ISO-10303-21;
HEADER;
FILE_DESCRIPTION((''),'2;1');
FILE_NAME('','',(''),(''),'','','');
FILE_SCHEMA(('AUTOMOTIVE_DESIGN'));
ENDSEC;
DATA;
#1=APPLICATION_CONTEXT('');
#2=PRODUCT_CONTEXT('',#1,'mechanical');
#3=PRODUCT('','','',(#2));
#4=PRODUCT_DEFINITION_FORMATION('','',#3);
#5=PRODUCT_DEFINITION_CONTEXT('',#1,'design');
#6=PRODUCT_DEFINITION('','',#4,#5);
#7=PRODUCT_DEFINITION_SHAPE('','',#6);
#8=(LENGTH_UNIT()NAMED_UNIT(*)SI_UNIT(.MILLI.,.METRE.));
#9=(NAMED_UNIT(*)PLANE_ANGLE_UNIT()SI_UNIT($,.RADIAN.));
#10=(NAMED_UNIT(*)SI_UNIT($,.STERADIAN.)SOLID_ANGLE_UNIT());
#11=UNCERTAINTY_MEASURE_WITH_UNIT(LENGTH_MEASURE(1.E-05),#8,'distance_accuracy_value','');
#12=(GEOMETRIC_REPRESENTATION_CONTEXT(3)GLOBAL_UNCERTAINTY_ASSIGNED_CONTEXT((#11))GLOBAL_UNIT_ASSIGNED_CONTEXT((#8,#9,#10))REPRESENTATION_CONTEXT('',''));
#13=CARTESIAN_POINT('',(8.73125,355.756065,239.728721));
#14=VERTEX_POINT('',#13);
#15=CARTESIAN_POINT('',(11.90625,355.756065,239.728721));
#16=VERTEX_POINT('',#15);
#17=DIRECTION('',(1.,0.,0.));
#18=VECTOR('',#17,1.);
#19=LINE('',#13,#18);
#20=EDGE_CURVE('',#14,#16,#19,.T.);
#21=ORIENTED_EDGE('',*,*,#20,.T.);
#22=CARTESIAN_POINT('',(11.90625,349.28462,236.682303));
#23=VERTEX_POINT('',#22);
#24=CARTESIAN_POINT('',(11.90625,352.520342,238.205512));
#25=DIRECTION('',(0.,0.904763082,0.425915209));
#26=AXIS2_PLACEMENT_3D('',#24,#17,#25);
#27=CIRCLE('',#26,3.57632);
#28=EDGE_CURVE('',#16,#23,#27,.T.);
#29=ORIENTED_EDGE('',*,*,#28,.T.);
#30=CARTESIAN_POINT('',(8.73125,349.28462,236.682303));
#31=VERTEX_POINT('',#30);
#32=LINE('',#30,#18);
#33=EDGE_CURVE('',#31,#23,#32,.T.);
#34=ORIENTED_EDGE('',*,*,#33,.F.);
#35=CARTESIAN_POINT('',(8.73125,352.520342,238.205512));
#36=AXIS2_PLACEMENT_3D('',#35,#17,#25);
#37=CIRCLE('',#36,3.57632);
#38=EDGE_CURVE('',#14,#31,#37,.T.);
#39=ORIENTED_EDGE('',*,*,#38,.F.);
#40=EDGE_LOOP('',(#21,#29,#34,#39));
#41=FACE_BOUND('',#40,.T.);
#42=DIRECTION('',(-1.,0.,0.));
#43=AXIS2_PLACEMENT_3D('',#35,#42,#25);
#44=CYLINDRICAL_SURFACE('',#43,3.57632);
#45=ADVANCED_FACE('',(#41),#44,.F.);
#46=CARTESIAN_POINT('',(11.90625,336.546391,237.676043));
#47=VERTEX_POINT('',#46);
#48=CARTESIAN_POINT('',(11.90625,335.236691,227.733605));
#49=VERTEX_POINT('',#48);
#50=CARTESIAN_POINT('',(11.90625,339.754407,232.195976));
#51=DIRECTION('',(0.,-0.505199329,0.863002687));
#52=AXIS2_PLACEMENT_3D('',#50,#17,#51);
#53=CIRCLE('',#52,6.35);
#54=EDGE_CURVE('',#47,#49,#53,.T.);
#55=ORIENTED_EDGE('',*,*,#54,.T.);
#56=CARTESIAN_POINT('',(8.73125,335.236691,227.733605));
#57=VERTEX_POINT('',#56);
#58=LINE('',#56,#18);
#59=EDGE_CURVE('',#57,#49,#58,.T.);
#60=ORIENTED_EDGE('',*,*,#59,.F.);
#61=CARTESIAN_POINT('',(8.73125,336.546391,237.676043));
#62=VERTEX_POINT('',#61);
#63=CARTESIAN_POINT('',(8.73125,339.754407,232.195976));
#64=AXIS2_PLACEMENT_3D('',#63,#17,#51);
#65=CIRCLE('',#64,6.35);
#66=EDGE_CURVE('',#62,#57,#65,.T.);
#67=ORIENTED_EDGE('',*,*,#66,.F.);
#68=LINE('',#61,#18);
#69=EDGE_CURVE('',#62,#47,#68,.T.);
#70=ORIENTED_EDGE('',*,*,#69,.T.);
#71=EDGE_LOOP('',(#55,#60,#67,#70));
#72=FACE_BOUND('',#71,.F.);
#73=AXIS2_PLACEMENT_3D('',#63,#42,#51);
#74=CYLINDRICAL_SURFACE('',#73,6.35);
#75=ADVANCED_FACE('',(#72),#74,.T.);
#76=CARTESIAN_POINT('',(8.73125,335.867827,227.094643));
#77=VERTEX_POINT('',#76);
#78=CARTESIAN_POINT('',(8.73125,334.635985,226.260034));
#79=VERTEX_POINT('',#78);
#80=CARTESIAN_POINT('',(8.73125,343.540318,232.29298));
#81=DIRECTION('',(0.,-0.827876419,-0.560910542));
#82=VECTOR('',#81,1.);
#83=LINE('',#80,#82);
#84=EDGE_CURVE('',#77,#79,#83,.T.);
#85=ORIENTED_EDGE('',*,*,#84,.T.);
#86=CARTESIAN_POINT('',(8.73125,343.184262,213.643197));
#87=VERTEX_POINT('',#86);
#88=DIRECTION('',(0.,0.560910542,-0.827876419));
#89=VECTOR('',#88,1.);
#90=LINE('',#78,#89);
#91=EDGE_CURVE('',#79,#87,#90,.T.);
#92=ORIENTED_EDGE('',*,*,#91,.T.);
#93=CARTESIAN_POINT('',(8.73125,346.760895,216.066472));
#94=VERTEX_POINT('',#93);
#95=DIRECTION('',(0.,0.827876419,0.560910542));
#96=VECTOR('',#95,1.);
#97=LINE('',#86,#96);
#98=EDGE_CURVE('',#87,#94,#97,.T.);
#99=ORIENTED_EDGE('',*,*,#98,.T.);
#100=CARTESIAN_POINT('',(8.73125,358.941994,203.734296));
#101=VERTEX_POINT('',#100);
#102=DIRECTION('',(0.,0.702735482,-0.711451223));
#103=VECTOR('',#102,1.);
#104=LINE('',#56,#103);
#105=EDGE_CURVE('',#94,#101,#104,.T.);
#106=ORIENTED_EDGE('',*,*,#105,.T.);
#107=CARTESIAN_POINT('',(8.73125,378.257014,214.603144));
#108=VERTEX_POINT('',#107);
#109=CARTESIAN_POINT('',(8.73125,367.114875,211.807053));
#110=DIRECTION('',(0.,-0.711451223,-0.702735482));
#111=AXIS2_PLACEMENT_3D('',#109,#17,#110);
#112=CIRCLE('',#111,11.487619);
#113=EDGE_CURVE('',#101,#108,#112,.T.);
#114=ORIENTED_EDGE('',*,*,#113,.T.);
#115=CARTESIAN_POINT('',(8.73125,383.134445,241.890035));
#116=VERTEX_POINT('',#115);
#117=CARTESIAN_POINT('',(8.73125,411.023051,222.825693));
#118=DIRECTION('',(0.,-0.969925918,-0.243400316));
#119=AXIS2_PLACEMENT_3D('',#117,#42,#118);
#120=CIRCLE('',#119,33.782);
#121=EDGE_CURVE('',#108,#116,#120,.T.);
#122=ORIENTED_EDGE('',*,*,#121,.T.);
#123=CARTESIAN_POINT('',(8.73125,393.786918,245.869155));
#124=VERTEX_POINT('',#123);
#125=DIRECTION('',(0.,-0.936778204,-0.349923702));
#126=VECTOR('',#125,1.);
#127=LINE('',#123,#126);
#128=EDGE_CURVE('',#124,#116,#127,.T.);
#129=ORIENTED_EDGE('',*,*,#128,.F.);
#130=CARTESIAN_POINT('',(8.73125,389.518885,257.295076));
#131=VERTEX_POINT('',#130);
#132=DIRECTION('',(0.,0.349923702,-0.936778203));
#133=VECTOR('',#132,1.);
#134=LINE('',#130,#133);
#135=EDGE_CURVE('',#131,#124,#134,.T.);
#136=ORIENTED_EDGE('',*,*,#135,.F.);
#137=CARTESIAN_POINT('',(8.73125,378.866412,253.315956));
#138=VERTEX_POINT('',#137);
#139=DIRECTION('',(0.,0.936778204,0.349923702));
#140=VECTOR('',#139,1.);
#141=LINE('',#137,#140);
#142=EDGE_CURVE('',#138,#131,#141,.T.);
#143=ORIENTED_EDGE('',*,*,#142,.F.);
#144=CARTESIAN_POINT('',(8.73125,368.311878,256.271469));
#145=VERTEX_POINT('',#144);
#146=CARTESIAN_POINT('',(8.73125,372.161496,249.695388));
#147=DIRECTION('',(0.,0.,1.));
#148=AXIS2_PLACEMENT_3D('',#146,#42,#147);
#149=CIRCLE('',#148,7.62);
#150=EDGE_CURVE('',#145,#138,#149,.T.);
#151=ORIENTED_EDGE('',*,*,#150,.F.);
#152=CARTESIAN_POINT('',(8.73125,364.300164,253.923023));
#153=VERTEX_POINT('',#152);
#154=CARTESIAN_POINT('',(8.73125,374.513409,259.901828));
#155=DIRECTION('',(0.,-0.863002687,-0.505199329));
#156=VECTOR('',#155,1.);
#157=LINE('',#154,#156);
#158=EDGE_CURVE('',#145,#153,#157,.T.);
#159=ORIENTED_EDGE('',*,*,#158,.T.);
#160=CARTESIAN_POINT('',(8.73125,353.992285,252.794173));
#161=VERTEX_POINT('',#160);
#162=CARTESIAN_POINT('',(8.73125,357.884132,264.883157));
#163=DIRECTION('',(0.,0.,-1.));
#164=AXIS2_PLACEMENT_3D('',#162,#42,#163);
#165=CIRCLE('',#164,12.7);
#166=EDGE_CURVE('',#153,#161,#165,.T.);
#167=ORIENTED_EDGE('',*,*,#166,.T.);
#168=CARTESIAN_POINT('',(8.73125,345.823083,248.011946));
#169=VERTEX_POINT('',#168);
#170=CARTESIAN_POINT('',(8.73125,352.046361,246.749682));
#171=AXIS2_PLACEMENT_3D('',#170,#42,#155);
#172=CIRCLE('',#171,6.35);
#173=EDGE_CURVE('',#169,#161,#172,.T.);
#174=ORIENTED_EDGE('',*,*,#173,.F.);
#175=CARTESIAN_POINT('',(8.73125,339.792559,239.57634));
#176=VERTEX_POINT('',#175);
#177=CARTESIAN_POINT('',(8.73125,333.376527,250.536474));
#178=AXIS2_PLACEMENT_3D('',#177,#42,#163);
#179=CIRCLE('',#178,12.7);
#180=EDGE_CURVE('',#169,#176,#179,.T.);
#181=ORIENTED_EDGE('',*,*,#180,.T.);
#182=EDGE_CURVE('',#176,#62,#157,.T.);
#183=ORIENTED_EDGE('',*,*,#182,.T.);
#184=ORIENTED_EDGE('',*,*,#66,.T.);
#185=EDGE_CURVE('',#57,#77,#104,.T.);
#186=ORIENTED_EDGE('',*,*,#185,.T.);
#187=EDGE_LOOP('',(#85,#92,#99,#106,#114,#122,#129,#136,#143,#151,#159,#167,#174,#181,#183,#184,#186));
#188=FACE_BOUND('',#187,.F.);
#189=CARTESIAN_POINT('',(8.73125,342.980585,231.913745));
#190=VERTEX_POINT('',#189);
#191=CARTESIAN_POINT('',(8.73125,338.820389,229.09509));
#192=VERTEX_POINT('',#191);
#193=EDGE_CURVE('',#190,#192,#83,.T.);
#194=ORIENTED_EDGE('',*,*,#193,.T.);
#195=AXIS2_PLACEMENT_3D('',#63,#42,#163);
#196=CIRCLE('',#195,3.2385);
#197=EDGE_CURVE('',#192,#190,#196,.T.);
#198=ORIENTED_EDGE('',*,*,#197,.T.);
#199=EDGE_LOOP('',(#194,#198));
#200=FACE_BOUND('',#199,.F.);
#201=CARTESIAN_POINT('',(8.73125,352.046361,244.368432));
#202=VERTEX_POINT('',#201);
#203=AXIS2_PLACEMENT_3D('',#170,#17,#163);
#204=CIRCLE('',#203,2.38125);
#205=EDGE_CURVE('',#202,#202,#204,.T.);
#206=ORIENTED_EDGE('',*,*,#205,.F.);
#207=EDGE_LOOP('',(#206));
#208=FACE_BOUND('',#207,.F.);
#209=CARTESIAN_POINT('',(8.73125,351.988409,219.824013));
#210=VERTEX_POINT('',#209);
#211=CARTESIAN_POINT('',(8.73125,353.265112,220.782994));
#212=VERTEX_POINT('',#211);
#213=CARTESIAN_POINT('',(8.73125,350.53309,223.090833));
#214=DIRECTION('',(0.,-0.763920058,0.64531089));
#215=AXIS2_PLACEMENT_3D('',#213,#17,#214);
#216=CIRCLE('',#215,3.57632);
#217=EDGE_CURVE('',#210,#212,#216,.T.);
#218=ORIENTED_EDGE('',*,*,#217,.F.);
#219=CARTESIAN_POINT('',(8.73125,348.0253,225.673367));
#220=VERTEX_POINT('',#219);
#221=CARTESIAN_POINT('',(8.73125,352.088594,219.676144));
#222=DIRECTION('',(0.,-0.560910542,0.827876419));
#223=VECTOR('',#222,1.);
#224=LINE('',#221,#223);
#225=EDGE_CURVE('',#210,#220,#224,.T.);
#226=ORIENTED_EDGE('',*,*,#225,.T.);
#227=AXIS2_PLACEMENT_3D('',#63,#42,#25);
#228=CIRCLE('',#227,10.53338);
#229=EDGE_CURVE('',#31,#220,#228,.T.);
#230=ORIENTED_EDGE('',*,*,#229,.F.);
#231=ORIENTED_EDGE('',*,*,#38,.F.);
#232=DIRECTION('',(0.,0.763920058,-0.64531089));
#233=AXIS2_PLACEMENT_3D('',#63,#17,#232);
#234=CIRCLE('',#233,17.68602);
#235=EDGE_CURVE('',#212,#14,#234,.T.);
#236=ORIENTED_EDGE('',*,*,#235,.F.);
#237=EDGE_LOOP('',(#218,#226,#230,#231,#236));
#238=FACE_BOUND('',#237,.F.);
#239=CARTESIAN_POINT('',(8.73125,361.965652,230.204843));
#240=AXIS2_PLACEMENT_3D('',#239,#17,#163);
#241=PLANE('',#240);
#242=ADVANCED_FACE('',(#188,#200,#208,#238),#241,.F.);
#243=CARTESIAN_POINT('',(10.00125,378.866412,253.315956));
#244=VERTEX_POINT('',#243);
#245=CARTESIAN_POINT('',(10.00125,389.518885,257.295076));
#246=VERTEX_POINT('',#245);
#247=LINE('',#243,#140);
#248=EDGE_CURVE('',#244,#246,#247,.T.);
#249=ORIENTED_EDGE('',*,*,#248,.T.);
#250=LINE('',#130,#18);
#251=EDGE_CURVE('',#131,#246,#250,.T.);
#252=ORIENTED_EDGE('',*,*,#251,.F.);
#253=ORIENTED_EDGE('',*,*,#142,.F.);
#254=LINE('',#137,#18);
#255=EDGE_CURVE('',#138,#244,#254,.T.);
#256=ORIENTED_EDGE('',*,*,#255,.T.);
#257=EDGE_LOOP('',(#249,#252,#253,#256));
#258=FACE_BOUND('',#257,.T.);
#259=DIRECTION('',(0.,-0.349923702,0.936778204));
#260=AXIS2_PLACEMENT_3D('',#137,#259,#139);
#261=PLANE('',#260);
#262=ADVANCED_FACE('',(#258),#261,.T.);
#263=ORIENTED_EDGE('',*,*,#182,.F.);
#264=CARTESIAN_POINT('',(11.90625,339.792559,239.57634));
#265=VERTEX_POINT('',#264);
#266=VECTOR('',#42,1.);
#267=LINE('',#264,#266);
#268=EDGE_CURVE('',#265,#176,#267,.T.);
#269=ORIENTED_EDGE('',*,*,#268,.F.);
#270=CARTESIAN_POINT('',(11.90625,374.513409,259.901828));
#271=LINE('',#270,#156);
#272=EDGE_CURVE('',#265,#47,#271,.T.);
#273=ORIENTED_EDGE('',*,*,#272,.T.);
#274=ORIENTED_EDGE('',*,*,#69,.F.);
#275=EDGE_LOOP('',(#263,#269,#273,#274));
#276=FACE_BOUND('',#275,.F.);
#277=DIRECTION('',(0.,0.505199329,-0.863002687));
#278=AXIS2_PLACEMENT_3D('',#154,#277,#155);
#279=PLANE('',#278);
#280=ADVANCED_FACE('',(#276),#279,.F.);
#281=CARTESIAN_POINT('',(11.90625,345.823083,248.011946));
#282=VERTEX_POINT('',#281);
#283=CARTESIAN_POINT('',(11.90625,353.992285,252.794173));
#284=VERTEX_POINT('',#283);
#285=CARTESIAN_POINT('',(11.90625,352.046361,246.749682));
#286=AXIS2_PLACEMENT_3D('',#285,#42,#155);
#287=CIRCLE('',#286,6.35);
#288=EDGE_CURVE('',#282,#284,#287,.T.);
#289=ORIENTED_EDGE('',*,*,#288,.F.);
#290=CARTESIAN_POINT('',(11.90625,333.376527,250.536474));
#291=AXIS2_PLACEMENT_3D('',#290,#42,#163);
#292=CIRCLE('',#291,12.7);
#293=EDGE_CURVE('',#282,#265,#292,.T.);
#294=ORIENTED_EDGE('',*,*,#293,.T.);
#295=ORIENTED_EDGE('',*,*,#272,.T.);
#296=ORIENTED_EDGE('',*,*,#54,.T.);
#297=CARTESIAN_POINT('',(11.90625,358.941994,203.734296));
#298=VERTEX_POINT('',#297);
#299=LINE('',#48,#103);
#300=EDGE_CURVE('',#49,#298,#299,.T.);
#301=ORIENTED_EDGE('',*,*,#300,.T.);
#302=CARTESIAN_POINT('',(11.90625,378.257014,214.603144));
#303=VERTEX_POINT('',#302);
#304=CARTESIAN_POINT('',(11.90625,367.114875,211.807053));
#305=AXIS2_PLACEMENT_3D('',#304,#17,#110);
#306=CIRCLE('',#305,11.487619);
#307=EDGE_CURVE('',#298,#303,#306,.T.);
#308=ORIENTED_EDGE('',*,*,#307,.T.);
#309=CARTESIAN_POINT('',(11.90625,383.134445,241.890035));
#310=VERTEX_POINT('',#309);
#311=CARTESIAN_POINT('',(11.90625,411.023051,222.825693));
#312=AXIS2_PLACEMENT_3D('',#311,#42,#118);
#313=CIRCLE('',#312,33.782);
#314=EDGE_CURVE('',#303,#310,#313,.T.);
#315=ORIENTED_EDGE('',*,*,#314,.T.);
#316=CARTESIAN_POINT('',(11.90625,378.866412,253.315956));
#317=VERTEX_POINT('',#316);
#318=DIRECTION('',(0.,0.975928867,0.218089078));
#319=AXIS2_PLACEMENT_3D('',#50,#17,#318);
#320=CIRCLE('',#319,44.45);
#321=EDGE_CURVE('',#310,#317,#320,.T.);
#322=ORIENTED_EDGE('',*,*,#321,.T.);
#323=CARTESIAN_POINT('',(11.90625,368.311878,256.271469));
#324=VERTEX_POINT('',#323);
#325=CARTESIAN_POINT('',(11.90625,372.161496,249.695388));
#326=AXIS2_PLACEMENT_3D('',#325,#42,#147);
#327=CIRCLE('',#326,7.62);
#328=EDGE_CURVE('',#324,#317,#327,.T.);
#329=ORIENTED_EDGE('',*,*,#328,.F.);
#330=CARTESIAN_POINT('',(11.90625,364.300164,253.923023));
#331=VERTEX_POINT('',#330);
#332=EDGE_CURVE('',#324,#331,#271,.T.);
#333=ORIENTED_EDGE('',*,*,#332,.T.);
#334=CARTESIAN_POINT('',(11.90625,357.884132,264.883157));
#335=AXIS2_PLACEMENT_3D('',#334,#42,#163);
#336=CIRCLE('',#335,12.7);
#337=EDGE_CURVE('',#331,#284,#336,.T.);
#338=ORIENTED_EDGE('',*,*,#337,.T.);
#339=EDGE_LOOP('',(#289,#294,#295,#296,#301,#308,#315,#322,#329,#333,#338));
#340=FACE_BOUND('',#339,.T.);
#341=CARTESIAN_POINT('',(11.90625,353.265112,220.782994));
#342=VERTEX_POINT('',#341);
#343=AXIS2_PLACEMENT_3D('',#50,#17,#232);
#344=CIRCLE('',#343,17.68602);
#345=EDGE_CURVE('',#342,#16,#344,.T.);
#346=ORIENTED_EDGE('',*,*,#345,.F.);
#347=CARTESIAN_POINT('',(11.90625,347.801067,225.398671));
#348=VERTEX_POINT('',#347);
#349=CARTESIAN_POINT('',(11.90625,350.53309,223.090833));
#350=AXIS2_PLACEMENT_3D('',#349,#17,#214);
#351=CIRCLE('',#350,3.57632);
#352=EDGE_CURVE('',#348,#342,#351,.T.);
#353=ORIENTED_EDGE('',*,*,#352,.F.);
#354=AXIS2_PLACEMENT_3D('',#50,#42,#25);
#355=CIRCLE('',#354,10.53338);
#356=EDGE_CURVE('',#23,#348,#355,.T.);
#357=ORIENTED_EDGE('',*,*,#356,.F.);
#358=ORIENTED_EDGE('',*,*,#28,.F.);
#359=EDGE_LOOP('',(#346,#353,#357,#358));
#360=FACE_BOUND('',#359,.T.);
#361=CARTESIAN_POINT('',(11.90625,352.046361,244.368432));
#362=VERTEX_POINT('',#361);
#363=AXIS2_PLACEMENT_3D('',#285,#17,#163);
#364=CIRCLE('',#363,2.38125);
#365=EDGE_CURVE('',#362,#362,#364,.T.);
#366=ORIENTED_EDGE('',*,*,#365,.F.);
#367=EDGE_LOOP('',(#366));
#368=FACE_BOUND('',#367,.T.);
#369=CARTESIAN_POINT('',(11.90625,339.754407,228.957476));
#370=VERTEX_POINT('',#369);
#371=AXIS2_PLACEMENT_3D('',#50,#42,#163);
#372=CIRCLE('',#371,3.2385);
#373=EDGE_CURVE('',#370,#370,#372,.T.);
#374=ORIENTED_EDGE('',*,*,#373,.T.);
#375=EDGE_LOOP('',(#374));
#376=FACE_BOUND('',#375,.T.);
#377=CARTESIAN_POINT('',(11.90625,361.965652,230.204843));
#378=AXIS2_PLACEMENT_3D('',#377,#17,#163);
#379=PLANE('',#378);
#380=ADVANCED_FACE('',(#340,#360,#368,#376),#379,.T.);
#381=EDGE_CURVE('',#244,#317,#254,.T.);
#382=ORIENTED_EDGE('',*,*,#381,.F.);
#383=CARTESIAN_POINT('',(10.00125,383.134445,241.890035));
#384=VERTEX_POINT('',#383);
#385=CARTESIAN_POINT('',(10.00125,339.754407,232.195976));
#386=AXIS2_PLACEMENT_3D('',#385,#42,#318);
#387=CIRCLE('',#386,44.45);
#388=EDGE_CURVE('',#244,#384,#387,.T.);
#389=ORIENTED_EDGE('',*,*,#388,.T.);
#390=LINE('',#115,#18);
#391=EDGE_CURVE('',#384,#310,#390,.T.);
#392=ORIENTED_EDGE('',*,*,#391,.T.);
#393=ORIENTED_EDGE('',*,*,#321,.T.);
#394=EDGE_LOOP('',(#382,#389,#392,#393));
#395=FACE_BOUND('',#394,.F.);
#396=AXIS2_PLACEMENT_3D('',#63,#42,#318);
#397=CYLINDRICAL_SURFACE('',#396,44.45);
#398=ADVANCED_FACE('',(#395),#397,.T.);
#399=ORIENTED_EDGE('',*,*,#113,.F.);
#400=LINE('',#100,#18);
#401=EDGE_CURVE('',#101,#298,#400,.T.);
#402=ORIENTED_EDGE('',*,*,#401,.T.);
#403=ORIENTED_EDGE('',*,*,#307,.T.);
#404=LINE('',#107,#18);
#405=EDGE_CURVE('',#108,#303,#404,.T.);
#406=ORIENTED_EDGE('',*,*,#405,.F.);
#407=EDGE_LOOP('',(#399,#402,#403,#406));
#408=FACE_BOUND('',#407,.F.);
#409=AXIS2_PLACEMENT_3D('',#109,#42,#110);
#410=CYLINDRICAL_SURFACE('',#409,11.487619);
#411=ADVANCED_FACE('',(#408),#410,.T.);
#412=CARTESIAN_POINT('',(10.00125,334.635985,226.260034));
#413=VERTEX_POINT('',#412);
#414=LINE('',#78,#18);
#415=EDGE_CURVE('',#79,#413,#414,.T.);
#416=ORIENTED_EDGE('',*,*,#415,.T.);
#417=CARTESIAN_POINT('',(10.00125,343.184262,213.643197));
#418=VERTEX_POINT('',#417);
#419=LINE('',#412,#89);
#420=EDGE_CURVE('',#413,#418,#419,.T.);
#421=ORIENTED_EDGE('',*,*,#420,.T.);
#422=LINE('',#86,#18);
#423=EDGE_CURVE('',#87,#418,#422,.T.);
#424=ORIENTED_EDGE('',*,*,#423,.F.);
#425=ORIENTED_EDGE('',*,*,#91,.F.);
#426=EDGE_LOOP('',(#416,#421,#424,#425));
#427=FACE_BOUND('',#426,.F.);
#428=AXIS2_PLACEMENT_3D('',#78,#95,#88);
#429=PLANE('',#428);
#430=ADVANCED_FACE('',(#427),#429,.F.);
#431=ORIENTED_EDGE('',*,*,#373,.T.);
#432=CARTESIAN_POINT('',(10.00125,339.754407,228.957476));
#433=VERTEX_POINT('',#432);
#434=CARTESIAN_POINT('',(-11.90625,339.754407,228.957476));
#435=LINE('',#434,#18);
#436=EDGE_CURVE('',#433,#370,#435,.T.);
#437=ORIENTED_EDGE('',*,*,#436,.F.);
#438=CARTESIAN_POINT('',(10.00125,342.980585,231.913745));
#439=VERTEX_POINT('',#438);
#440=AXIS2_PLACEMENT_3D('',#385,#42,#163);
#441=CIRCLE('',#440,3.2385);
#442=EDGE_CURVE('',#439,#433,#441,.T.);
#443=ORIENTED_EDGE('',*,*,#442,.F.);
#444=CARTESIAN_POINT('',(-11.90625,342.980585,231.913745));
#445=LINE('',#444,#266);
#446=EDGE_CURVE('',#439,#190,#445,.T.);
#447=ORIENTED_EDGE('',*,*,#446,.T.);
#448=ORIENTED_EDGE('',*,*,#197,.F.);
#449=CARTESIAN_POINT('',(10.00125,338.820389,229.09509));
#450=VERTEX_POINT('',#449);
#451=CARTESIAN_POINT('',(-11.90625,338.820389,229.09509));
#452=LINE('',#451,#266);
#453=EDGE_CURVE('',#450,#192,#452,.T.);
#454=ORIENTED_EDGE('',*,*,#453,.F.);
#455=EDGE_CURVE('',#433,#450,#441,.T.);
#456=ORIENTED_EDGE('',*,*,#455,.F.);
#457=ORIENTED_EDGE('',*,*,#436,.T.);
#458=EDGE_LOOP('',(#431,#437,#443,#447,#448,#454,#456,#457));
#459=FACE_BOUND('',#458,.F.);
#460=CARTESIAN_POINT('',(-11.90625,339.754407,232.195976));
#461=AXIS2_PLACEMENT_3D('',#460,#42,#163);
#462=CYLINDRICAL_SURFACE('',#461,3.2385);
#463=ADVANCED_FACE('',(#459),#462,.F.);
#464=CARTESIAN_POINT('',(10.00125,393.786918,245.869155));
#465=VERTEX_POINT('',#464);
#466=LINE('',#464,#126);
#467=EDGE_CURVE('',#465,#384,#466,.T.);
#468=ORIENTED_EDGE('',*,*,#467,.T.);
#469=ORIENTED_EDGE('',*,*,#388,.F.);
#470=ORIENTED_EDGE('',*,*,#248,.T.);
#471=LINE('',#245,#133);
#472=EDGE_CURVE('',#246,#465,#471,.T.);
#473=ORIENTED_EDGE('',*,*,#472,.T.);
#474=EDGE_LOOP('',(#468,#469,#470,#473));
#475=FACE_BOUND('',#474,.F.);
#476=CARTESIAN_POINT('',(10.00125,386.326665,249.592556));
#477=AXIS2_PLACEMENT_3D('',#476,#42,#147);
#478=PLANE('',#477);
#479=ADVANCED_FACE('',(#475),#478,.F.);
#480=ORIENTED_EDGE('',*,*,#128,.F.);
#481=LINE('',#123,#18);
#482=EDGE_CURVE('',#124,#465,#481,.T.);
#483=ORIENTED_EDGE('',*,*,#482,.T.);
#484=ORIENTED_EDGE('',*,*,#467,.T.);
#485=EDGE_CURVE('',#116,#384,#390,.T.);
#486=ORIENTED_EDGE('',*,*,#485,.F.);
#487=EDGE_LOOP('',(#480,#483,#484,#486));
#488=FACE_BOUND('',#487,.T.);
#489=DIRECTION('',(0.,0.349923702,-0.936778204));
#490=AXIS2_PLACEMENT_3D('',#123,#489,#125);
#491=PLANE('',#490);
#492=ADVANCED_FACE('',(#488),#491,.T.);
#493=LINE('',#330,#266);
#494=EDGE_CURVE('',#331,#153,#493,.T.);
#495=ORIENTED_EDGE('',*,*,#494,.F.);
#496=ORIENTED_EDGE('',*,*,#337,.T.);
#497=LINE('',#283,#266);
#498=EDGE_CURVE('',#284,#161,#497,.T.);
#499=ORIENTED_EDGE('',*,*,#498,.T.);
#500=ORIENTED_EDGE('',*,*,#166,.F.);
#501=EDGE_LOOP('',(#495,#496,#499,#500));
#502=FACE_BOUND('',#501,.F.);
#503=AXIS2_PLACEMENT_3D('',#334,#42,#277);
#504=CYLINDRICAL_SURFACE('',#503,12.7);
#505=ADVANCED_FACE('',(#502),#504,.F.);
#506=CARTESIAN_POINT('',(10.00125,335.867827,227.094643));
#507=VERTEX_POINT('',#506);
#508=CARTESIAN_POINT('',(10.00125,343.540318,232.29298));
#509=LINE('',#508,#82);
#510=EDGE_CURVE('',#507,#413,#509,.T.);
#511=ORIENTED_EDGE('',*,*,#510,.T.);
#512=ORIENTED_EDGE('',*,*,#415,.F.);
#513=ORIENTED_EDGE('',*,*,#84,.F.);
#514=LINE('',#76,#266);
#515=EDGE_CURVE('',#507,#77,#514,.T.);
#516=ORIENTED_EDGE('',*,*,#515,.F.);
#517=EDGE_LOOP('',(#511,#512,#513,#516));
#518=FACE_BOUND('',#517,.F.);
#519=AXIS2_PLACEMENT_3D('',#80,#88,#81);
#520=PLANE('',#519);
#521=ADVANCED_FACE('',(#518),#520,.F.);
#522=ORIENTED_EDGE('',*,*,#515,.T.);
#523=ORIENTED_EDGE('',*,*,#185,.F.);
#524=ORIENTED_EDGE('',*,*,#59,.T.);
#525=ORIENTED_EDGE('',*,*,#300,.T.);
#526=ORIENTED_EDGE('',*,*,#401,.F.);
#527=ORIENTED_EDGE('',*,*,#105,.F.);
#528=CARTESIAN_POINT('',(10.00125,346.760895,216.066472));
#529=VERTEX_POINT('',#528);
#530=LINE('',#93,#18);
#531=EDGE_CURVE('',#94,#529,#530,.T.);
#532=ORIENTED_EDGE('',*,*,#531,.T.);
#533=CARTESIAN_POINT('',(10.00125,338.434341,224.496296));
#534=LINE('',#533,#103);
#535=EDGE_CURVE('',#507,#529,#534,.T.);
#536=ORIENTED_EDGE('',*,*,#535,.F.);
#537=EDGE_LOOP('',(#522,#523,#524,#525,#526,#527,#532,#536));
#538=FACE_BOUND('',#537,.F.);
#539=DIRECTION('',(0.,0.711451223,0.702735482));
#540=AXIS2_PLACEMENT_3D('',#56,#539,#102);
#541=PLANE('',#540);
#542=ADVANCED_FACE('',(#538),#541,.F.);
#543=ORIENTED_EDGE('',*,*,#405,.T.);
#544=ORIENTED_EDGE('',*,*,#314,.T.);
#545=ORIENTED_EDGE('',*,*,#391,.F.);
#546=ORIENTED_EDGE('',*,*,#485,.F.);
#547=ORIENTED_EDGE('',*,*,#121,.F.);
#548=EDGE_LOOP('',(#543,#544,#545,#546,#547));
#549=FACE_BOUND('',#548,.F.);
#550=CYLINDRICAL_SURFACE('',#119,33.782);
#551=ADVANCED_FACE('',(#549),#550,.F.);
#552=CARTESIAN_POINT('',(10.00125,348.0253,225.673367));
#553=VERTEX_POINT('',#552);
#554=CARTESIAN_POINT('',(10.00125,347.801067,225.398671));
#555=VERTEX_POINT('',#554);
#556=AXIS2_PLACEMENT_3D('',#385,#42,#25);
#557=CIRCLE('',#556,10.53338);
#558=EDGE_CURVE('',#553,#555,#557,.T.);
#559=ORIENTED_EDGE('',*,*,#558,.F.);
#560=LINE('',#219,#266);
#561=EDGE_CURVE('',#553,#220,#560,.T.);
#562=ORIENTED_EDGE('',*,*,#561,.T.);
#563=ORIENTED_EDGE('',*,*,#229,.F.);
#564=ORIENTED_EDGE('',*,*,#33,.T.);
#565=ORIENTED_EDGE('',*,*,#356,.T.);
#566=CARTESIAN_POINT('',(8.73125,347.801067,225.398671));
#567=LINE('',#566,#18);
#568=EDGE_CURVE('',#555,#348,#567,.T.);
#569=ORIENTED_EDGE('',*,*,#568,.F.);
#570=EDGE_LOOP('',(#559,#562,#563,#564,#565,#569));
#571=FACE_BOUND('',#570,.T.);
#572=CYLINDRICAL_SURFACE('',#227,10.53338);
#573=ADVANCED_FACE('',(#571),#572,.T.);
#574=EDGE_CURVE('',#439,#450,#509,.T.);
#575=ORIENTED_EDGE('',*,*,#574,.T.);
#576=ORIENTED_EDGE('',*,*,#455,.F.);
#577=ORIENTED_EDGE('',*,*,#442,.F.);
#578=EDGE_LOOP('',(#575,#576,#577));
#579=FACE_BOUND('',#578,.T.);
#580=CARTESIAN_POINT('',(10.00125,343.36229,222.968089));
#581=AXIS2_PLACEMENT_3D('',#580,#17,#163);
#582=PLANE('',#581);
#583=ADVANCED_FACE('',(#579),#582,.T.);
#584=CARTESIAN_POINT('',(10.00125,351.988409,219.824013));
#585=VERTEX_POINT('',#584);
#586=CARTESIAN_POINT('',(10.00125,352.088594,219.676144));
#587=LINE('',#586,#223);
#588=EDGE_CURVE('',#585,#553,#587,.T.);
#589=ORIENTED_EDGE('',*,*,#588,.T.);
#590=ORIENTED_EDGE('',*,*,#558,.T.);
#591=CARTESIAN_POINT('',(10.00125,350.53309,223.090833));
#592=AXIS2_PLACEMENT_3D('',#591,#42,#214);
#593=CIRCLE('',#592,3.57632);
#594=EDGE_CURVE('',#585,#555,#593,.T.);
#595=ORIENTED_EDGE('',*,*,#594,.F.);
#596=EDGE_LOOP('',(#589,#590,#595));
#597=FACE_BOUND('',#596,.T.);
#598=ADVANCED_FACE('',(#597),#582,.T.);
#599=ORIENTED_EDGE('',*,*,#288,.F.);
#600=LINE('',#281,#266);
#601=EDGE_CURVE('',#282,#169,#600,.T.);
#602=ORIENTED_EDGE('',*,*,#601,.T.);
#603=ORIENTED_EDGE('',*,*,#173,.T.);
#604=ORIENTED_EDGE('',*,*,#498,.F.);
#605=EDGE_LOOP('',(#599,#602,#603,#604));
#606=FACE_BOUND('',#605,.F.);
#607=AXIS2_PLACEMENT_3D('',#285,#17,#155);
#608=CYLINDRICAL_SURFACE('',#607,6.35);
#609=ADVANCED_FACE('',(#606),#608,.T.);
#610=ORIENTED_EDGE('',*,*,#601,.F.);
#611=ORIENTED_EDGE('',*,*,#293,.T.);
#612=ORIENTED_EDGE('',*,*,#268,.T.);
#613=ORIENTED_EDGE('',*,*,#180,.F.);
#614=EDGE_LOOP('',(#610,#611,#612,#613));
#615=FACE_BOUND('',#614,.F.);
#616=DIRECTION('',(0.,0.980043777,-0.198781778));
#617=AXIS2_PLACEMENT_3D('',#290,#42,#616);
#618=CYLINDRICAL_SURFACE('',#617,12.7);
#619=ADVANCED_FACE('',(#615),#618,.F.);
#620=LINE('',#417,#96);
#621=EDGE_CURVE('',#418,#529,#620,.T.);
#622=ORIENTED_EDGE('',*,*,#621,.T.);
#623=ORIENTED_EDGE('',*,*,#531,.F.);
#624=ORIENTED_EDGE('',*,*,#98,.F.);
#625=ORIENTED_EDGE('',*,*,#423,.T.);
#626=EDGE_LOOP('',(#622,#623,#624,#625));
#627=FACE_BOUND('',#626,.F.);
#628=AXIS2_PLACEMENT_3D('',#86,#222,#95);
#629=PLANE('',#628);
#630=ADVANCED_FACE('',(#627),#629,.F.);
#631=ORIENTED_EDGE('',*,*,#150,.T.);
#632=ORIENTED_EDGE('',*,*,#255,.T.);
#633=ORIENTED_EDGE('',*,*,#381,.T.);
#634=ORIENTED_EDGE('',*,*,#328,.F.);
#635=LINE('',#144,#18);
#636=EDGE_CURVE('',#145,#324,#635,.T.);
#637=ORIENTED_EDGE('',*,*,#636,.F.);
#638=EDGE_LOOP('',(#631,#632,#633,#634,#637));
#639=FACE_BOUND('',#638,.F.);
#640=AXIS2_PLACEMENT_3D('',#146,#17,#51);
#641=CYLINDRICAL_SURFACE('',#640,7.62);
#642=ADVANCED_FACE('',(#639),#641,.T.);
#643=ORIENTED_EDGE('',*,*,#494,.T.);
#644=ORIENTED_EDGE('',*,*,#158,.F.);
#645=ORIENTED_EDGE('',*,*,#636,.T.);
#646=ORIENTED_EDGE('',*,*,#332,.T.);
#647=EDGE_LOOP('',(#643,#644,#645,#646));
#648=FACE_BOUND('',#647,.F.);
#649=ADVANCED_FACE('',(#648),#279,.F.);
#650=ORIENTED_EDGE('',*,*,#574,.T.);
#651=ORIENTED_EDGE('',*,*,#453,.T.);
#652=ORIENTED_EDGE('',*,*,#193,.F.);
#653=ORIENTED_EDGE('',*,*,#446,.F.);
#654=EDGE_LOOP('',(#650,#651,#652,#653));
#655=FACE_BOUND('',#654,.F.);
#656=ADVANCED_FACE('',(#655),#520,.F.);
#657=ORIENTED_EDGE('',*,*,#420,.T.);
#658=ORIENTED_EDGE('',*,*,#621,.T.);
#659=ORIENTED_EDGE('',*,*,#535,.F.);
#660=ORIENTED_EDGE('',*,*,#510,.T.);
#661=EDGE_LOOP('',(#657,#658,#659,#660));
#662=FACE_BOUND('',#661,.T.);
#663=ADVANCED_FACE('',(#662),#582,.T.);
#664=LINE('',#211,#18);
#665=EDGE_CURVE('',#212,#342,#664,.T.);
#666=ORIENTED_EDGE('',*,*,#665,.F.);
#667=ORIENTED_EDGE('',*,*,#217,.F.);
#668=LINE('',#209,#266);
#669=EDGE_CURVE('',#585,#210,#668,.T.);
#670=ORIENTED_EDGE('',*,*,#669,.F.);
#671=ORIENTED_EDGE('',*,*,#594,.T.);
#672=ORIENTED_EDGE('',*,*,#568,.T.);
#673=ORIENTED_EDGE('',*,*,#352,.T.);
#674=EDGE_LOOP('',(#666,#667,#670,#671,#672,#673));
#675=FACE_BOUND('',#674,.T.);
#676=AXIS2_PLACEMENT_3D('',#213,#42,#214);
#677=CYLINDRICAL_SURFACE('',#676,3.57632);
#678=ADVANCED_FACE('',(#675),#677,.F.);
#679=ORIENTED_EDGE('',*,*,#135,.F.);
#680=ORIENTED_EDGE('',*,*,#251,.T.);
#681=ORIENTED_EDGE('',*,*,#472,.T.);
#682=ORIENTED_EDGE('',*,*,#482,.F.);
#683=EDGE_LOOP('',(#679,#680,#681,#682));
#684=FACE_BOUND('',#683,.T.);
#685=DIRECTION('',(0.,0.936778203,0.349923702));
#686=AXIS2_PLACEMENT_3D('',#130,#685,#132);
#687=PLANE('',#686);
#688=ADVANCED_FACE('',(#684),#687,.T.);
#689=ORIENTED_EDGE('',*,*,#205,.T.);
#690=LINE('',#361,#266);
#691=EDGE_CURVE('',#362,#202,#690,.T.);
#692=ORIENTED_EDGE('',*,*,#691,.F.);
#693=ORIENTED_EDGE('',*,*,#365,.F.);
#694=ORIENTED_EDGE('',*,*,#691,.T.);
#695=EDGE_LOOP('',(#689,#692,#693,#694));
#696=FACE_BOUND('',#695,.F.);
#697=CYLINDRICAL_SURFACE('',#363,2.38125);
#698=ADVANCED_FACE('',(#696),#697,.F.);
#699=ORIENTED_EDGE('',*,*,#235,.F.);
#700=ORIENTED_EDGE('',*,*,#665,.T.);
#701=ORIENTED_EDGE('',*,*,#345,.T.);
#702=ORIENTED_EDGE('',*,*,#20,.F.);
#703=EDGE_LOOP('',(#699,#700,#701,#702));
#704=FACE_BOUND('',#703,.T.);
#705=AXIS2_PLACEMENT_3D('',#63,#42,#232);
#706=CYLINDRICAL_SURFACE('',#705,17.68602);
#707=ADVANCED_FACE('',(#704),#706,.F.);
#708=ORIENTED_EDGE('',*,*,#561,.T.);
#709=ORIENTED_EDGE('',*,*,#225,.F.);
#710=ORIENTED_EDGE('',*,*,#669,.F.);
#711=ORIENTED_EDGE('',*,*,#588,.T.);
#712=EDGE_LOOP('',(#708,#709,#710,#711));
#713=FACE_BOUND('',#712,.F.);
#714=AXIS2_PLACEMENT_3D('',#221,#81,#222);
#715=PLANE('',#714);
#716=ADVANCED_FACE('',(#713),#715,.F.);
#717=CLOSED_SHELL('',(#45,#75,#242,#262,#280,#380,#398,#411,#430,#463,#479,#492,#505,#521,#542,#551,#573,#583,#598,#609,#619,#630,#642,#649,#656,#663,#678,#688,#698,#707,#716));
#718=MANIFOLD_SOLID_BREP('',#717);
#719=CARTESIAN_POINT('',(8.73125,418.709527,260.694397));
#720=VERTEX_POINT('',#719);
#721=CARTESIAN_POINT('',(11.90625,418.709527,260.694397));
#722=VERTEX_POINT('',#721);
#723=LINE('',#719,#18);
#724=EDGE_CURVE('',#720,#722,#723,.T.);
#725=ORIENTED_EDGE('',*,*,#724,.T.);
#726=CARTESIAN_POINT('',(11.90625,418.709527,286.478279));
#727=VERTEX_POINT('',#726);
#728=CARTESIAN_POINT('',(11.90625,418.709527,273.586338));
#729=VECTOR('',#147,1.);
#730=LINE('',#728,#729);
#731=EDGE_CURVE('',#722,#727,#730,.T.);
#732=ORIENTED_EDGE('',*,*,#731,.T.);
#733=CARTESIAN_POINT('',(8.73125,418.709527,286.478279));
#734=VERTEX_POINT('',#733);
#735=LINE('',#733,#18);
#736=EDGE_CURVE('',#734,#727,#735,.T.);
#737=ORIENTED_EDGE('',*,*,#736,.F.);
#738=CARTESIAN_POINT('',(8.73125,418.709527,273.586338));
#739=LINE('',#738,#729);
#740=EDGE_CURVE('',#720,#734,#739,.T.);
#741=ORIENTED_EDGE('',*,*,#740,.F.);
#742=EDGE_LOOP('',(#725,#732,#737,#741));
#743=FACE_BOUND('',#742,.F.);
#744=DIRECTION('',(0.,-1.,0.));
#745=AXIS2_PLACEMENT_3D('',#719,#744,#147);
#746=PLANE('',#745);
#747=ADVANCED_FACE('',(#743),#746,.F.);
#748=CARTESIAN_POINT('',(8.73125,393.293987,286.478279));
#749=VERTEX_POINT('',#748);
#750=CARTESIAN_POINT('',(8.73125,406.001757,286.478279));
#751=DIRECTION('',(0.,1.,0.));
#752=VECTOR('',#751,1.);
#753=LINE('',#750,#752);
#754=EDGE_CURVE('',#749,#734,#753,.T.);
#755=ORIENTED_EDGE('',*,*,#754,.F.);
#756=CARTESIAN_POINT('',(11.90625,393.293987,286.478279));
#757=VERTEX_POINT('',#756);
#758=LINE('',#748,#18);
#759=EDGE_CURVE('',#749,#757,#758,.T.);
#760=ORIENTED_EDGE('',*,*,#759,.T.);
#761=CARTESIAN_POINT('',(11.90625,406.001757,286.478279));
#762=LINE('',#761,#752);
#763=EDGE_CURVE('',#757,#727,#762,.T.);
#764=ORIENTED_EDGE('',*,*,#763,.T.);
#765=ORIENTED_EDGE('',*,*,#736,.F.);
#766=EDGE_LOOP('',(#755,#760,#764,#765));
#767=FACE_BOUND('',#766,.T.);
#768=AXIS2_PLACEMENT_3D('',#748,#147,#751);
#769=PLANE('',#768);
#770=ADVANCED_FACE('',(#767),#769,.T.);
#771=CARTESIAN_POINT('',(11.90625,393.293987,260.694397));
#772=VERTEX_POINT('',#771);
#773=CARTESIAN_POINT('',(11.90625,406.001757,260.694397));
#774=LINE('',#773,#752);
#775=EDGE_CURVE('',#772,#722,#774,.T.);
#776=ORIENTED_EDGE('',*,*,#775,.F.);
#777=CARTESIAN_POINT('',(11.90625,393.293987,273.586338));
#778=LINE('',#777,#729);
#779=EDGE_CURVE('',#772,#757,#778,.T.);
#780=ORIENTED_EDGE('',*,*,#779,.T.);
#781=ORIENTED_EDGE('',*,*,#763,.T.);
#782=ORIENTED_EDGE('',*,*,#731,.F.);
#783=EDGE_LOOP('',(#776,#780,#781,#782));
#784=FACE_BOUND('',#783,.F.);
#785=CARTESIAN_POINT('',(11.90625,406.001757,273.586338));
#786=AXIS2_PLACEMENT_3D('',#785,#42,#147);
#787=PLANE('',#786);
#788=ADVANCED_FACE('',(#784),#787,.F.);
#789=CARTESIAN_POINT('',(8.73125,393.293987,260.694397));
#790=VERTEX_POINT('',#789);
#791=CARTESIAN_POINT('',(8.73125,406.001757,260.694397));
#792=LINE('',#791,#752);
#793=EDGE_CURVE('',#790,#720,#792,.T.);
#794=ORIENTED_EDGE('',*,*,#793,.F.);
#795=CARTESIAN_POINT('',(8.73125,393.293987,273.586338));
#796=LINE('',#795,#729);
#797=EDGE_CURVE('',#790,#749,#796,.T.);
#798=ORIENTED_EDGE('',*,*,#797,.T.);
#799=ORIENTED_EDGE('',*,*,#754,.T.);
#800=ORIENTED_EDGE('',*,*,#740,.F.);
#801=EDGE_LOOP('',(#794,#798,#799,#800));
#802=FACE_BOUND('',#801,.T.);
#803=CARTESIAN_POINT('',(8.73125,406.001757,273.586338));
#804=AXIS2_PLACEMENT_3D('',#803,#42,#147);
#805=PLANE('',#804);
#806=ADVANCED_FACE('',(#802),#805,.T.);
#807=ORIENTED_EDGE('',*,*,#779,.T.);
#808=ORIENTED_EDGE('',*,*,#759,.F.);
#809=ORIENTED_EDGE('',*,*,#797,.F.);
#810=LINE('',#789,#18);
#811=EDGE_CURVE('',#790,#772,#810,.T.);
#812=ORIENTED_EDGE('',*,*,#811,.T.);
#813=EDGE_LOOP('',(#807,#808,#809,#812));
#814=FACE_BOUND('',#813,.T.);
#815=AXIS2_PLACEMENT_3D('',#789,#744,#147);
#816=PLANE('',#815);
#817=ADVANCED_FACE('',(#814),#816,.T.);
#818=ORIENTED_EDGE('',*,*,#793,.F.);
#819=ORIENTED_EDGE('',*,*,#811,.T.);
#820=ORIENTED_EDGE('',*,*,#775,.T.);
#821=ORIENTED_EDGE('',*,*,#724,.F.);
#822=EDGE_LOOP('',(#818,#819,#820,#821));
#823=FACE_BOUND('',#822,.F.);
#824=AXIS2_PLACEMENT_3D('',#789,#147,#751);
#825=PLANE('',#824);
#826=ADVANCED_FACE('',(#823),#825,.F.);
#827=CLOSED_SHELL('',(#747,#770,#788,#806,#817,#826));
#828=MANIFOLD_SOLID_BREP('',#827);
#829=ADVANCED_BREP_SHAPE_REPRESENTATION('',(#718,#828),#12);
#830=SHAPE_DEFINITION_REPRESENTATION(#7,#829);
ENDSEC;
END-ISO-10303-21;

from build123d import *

# Parameters (mm, degrees)
BOSS_EXTRUDE2_DEPTH            = 19.05
SKETCH9_R                      = 3.2385
SKETCH9_R_2                    = 3.175
CUT_EXTRUDE4_DEPTH             = 153.631238014
CUT_EXTRUDE7_DEPTH             = 52.07
SKETCH16_W                     = 6.35
SKETCH16_H                     = 9.525
BOSS_EXTRUDE3_DEPTH            = 52.07
BOSS_EXTRUDE5_DEPTH            = 38.1
CUT_EXTRUDE10_DEPTH            = 153.631238014
SKETCH22_R                     = 3.175
CUT_EXTRUDE11_DEPTH            = 535.426844636
CUT_EXTRUDE13_DEPTH            = 3.175
CUT_EXTRUDE13_DEPTH_BACK       = 5.08
SKETCH27_R                     = 6.35
SKETCH28_W                     = 12.7
SKETCH28_H                     = 6.35
CUT_EXTRUDE14_DEPTH            = 6.35
CUT_EXTRUDE18_DEPTH            = 25.4
CUT_EXTRUDE23_REACH            = 116.123
SKETCH48_W                     = 4.7625
SKETCH48_H                     = 46.015558287
BOSS_EXTRUDE6_DEPTH            = 2.38125
BOSS_EXTRUDE9_START            = 6.35
SKETCH41_R                     = 1.651
BOSS_EXTRUDE9_DEPTH            = 3.175
SKETCH44_W                     = 2.15265
SKETCH44_H                     = 21.43125
F_8_CLEARANCE_HOLE1_AT_2_COUNT = 2
F_8_CLEARANCE_HOLE1_AT_2_PITCH = 14.1097
SKETCH54_R                     = 3.2385
CUT_EXTRUDE29_DEPTH            = 534.965103431
BOSS_EXTRUDE17_DEPTH           = 3.175
SKETCH47_R                     = 2.38125
CUT_EXTRUDE22_DEPTH            = 534.965103431
FILLET10_R                     = 12.7
FILLET11_R                     = 7.62
BOSS_EXTRUDE10_DEPTH           = 4.7625
SKETCH57_R                     = 3.175
CUT_EXTRUDE31_DEPTH            = 534.497648303
SKETCH58_R                     = 3.175
CUT_EXTRUDE32_DEPTH            = 534.497648303
BOSS_EXTRUDE12_DEPTH           = 4.7625
FILLET4_R                      = 161.925
CUT_EXTRUDE33_DEPTH            = 534.497648303
SKETCH63_W                     = 2.45745
SKETCH63_H                     = 21.43125
FILLET6_R                      = 1.27
FILLET7_R                      = 2
FILLET9_R                      = 12.7
FILLET8_R                      = 6.35
BOSS_EXTRUDE15_DEPTH           = 1.27
SKETCH67_W                     = 25.783881398
SKETCH67_H                     = 25.415540234
BOSS_EXTRUDE16_DEPTH           = 3.175


with BuildPart() as part:
    # Sketch4 → Boss-Extrude2 (new, symmetric)
    with BuildSketch(Plane(origin=(0, 0, 0), x_dir=(0, 0, -1), z_dir=(1, 0, 0))):
        with BuildLine():
            Line((-186.846778023, 405.26156603), (-158.205357675, 369.030625673))
            Line((-158.205357675, 369.030625673), (-140.256718713, 375.414109002))
            Line((-140.256718713, 375.414109002), (-157.704906478, 424.473722165))
            Line((-157.704906478, 424.473722165), (-175.65354544, 418.090238836))
            Line((-175.65354544, 418.090238836), (-177.355807661, 422.876542559))
            ThreePointArc((-177.355807661, 422.876542559), (-243.191724351, 450.45722133), (-264.474202715, 382.324131846))
            Line((-264.474202715, 382.324131846), (-237.676042854, 336.546390968))
            ThreePointArc((-237.676042854, 336.546390968), (-229.492825478, 334.008496997), (-226.23061556, 341.930866521))
            Line((-226.23061556, 341.930866521), (-246.687133952, 397.9992122))
            ThreePointArc((-246.687133952, 397.9992122), (-243.637808701, 421.265815224), (-222.825693032, 432.10505146))
            ThreePointArc((-222.825693032, 432.10505146), (-209.542420342, 429.05833538), (-198.914683118, 420.527273681))
            Line((-198.914683118, 420.527273681), (-186.846778023, 405.26156603))
        make_face()
    extrude(amount=BOSS_EXTRUDE2_DEPTH, both=True)

    # Sketch9 → Cut-Extrude4 (cut, through all)
    with BuildSketch(Plane(origin=(0, 426.601549941, 151.722026824), x_dir=(1, 0, 0), z_dir=(0, 0.9421857722885012, 0.33509098838542445))):
        with Locations(Location((6.35, -19.05, 0), (0, 0, 270))):
            Circle(SKETCH9_R)
        with Locations((-9.525, -6.35)):
            Circle(SKETCH9_R_2)
        with Locations((9.525, -6.35)):
            Circle(SKETCH9_R_2)
    extrude(amount=-CUT_EXTRUDE4_DEPTH, mode=Mode.SUBTRACT)

    # Sketch15 → Cut-Extrude7 (cut)
    with BuildSketch(Plane(origin=(0, 426.601549941, 151.722026824), x_dir=(1, 0, 0), z_dir=(0, 0.9421857722885011, 0.33509098838542445))):
        Polygon((-3.175, -9.525), (6.35, -9.525), (9.525, -9.525), (9.525, -6.35), (-9.525, -6.35), (-9.525, -9.525), align=None)
    extrude(amount=-CUT_EXTRUDE7_DEPTH, mode=Mode.SUBTRACT)

    # Sketch16 → Boss-Extrude3 (add)
    with BuildSketch(Plane(origin=(0, 426.601549941, 151.722026824), x_dir=(1, 0, 0), z_dir=(0, 0.9421857722885012, 0.3350909883854245))):
        with Locations((15.875, -1.5875)):
            Rectangle(SKETCH16_W, SKETCH16_H)
        with Locations((-15.875, -1.5875)):
            Rectangle(SKETCH16_W, SKETCH16_H)
    extrude(amount=-BOSS_EXTRUDE3_DEPTH)

    # Sketch20 → Boss-Extrude5 (add)
    with BuildSketch(Plane(origin=(19.05, 0, 0), x_dir=(0, 0, -1), z_dir=(1, 0, 0))):
        with BuildLine():
            Line((-148.730586997, 427.665463829), (-175.65354544, 418.090238836))
            Line((-175.65354544, 418.090238836), (-177.355807661, 422.876542559))
            ThreePointArc((-177.355807661, 422.876542559), (-196.734821197, 447.304238729), (-227.005535657, 454.78370073))
            Line((-227.005535657, 454.78370073), (-160.433639767, 460.571301927))
            Line((-160.433639767, 460.571301927), (-148.730586997, 427.665463829))
        make_face()
    extrude(amount=-BOSS_EXTRUDE5_DEPTH)

    # Sketch21 → Cut-Extrude10 (cut, through all)
    with BuildSketch(Plane(origin=(0, 426.601549941, 151.722026824), x_dir=(1, 0, 0), z_dir=(0, -0.942185772288501, -0.335090988385425))):
        with BuildLine():
            Line((19.05, 14.478), (19.05, 6.35))
            Line((19.05, 6.35), (19.05, -3.175))
            Line((19.05, -3.175), (-19.05, -3.175))
            Line((-19.05, -3.175), (-19.05, 6.35))
            Line((-19.05, 6.35), (-19.05, 14.478))
            Line((-19.05, 14.478), (-15.97025, 14.478))
            Line((-15.97025, 14.478), (-8.0264, 25.0698))
            ThreePointArc((-8.0264, 25.0698), (0, 29.083), (8.0264, 25.0698))
            Line((8.0264, 25.0698), (15.97025, 14.478))
            Line((15.97025, 14.478), (19.05, 14.478))
        make_face()
    extrude(amount=-CUT_EXTRUDE10_DEPTH, mode=Mode.SUBTRACT)

    # Sketch22 → Cut-Extrude11 (cut, through all)
    with BuildSketch(Plane(origin=(19.05, 0, 0), x_dir=(0, 0, -1), z_dir=(1, 0, 0))):
        with Locations((-253.002053482, 402.413470169)):
            Circle(SKETCH22_R)
        with Locations((-239.490468058, 381.184164458)):
            Circle(SKETCH22_R)
    extrude(amount=-CUT_EXTRUDE11_DEPTH, mode=Mode.SUBTRACT)

    # Sketch27 → Cut-Extrude13 (cut, two sides: drawn at the far end of the back side and taken through both)
    with BuildSketch(Plane(origin=(-17.1704, -4.31523473, 12.133279938), x_dir=(-0.5432430093887411, -0.1572894719134328, -0.8247102853581115), z_dir=(0.7999999999999949, 0.20105459303125733, -0.5653114633731071)).offset(-CUT_EXTRUDE13_DEPTH_BACK)):
        with Locations(Location((-205.469391655, 414.258576717, 0), (0, 0, 168.252215141))):
            Circle(SKETCH27_R)
    extrude(amount=CUT_EXTRUDE13_DEPTH + CUT_EXTRUDE13_DEPTH_BACK, mode=Mode.SUBTRACT)

    # Sketch28 → Cut-Extrude14 (cut)
    with BuildSketch(Plane(origin=(0, -4.85144733, 13.640965611), x_dir=(-1, 0, 0), z_dir=(-1.200145339583648e-13, 0.33509098838542495, -0.942185772288501))):
        with Locations((-12.7, 481.353594719)):
            Rectangle(SKETCH28_W, SKETCH28_H)
    extrude(amount=-CUT_EXTRUDE14_DEPTH, mode=Mode.SUBTRACT)

    # Sketch33 → Cut-Extrude18 (cut, symmetric)
    with BuildSketch(Plane(origin=(0, 0, 0), x_dir=(0, 0, -1), z_dir=(1, 0, 0))):
        with BuildLine():
            Line((-199.247314558, 457.196933995), (-212.078601064, 429.719395123))
            ThreePointArc((-212.078601064, 429.719395123), (-239.987832709, 425.42992694), (-246.687133952, 397.9992122))
            Line((-246.687133952, 397.9992122), (-226.23061556, 341.930866521))
            ThreePointArc((-226.23061556, 341.930866521), (-229.492825478, 334.008496997), (-237.676042854, 336.546390968))
            Line((-237.676042854, 336.546390968), (-264.474202715, 382.324131846))
            ThreePointArc((-264.474202715, 382.324131846), (-265.693591855, 428.871937811), (-227.005535657, 454.78370073))
            Line((-227.005535657, 454.78370073), (-199.247314558, 457.196933995))
        make_face()
    extrude(amount=CUT_EXTRUDE18_DEPTH, both=True, mode=Mode.SUBTRACT)

    # Cut-Extrude23: up to this plane
    cut_extrude23_end = Plane(origin=(-108.1095773, 454.78370073, 227.005535657), z_dir=(0, 0.9962422144646194, 0.08661091223761264))
    # Sketch48 → Cut-Extrude23 (cut, up to the surface)
    with BuildSketch(Plane(origin=(0, 377.541936778, 134.273839059), x_dir=(1, 0, 0), z_dir=(0, -0.9421857722885012, -0.3350909883854244)), mode=Mode.PRIVATE) as cut_extrude23_sk1:
        with Locations((0, 32.532779144)):
            Rectangle(SKETCH48_W, SKETCH48_H)
    cut_extrude23_tool1 = split(extrude(cut_extrude23_sk1.sketch, amount=-CUT_EXTRUDE23_REACH, mode=Mode.PRIVATE), bisect_by=cut_extrude23_end, keep=Keep.BOTH, mode=Mode.PRIVATE)
    add(cut_extrude23_tool1.solids().sort_by_distance((0, 366.640496, 164.925761))[0], mode=Mode.SUBTRACT)


with BuildPart() as cut_extrude23_piece_1:
    # of the separate pieces the step leaves, piece 1, a body of its own (cut_extrude23_pieces)
    add(part.part.solids().sort_by_distance((-19.05, 457.196933995, 199.247314558))[0])


with BuildPart() as cut_extrude23_piece_2:
    # of the separate pieces the step leaves, piece 2, a body of its own (cut_extrude23_pieces)
    add(part.part.solids().sort_by_distance((19.05, 457.196933995, 199.247314558))[0])


with BuildPart() as body_3:
    # Sketch35 → Boss-Extrude6 (new, symmetric)
    with BuildSketch(Plane(origin=(0, 0, 0), x_dir=(0, 0, -1), z_dir=(1, 0, 0))):
        with BuildLine():
            Line((-237.676042854, 336.546390968), (-264.474202715, 382.324131846))
            ThreePointArc((-264.474202715, 382.324131846), (-265.472121099, 429.295088492), (-226.053156197, 454.857009691))
            Line((-226.053156197, 454.857009691), (-204.645177824, 456.727656689))
            Line((-204.645177824, 456.727656689), (-195.764245071, 457.499743714))
            Line((-195.764245071, 457.499743714), (-187.436501805, 446.96528118))
            Line((-187.436501805, 446.96528118), (-172.228614898, 427.727546572))
            Line((-172.228614898, 427.727546572), (-189.069775711, 408.073622684))
            Line((-189.069775711, 408.073622684), (-198.914683118, 420.527273681))
            ThreePointArc((-198.914683118, 420.527273681), (-209.542420342, 429.05833538), (-222.825693032, 432.10505146))
            ThreePointArc((-222.825693032, 432.10505146), (-243.637808701, 421.265815224), (-246.687133952, 397.9992122))
            Line((-246.687133952, 397.9992122), (-226.23061556, 341.930866521))
            ThreePointArc((-226.23061556, 341.930866521), (-229.492825478, 334.008496997), (-237.676042854, 336.546390968))
        make_face()
    extrude(amount=BOSS_EXTRUDE6_DEPTH, both=True)

    # Sketch44 → #8 Clearance Hole1 (revolve, cut)
    with BuildSketch(Plane(origin=(2.38125, 352.520342369, 238.205511608), x_dir=(0, 0, -1), z_dir=(0, 1, 0))):
        with Locations((1.076325, 10.715625)):
            Rectangle(SKETCH44_W, SKETCH44_H)
    f_8_clearance_hole1 = revolve(axis=Axis((8.73125, 352.520342369, 238.205511608), (-1, 0, 0)), mode=Mode.SUBTRACT)

    # #8 Clearance Hole1 at 2: #8 Clearance Hole1 ×2
    with Locations(*[Vector(0, -0.9047630823191329, -0.42591520854787757) * (i * F_8_CLEARANCE_HOLE1_AT_2_PITCH) for i in range(1, F_8_CLEARANCE_HOLE1_AT_2_COUNT)]):
        add(f_8_clearance_hole1, mode=Mode.SUBTRACT)

    # Sketch56 → Boss-Extrude10 (add)
    with BuildSketch(Plane.ZY.offset(2.38125)):
        Polygon((172.228614898, 427.727546572), (189.069775711, 408.073622684), (150.093881412, 374.128883937), (137.640230415, 383.973791344), align=None)
    extrude(amount=-BOSS_EXTRUDE10_DEPTH)

    # Sketch57 → Cut-Extrude31 (cut, through all)
    with BuildSketch(Plane.ZY.offset(2.38125)):
        with Locations((154.366633975, 389.773278837)):
            Circle(SKETCH57_R)
    extrude(amount=-CUT_EXTRUDE31_DEPTH, mode=Mode.SUBTRACT)

    # Sketch58 → Cut-Extrude32 (cut, through all)
    with BuildSketch(Plane(origin=(2.38125, 0, 0), x_dir=(0, 0, -1), z_dir=(1, 0, 0))):
        with Locations((-251.088512577, 393.691356506)):
            Circle(SKETCH58_R)
    extrude(amount=-CUT_EXTRUDE32_DEPTH, mode=Mode.SUBTRACT)

    # Sketch60 → Boss-Extrude12 (add)
    with BuildSketch(Plane.ZY.offset(2.38125)):
        with BuildLine():
            Line((238.16133602, 337.577946891), (232.720186483, 322.664546316))
            ThreePointArc((232.720186483, 322.664546316), (224.578366438, 318.875645901), (220.789466023, 327.017465946))
            Line((220.789466023, 327.017465946), (226.23061556, 341.930866521))
            ThreePointArc((226.23061556, 341.930866521), (230.019515975, 333.789046476), (238.16133602, 337.577946891))
        make_face()
    extrude(amount=-BOSS_EXTRUDE12_DEPTH)

    # Fillet4
    fillet4_edges = [body_3.edges().sort_by_distance(p)[0] for p in [
        (0, 337.040299626, 237.965175583),
    ]]
    fillet(fillet4_edges, radius=FILLET4_R)

    # Sketch61 → Cut-Extrude33 (cut, through all)
    with BuildSketch(Plane.ZY.offset(2.38125)):
        with BuildLine():
            Line((157.330045228, 408.881093338), (149.454119303, 398.91817254))
            ThreePointArc((149.454119303, 398.91817254), (151.090857413, 398.367142584), (152.779456246, 398.004955291))
            Line((152.779456246, 398.004955291), (159.820775427, 406.912111857))
            Line((159.820775427, 406.912111857), (157.330045228, 408.881093338))
        make_face()
    extrude(amount=-CUT_EXTRUDE33_DEPTH, mode=Mode.SUBTRACT)


with BuildPart() as body_4:
    # Sketch41 → Boss-Extrude9 (new body)
    with BuildSketch(Plane(origin=(2.38125, 0, 0), x_dir=(0, 0, -1), z_dir=(1, 0, 0)).offset(BOSS_EXTRUDE9_START)):
        with BuildLine():
            Line((-259.901827857, 374.513409299), (-237.676042854, 336.546390968))
            ThreePointArc((-237.676042854, 336.546390968), (-233.025285674, 333.458793542), (-227.733605481, 335.23669144))
            Line((-227.733605481, 335.23669144), (-203.734295846, 358.941993885))
            ThreePointArc((-203.734295846, 358.941993885), (-201.795644606, 372.748442455), (-214.603143546, 378.257014105))
            ThreePointArc((-214.603143546, 378.257014105), (-228.769887709, 377.768125905), (-241.890035296, 383.134444861))
            ThreePointArc((-241.890035296, 383.134444861), (-251.386309553, 379.848465993), (-259.901827857, 374.513409299))
        make_face()
        with Locations((-232.19597579, 339.754406706)):
            Circle(SKETCH41_R, mode=Mode.SUBTRACT)
        with BuildLine():
            ThreePointArc((-220.782994488, 353.265112137), (-229.890488905, 357.289515308), (-239.728720687, 355.756064675))
            ThreePointArc((-239.728720687, 355.756064675), (-241.441233915, 350.99713329), (-236.682302529, 349.284620062))
            ThreePointArc((-236.682302529, 349.284620062), (-230.822881705, 350.197907406), (-225.39867097, 347.801066971))
            ThreePointArc((-225.39867097, 347.801066971), (-220.358810146, 348.225251313), (-220.782994488, 353.265112137))
        make_face(mode=Mode.SUBTRACT)
    extrude(amount=BOSS_EXTRUDE9_DEPTH)


with BuildPart() as body_5:
    # Mirror1: mirrored copy
    add(body_4.part.mirror(Plane(origin=(0, 0, 0), x_dir=(0, 0, 1), z_dir=(1, 0, 0))))


with BuildPart() as cut_extrude29_tool:
    # Sketch54 → Cut-Extrude29 (new, through all)
    with BuildSketch(Plane.ZY.offset(11.90625)):
        with Locations(Location((232.19597579, 339.754406706, 0), (0, 0, 180))):
            Circle(SKETCH54_R)
    extrude(amount=-CUT_EXTRUDE29_DEPTH)


with BuildPart() as body_5_1:
    add(body_5.part)

    # Cut-Extrude29: cut by cut_extrude29_tool
    add(cut_extrude29_tool.part, mode=Mode.SUBTRACT)


with BuildPart() as body_4_1:
    add(body_4.part)

    # Cut-Extrude29: cut by cut_extrude29_tool
    add(cut_extrude29_tool.part, mode=Mode.SUBTRACT)

    # Sketch68 → Boss-Extrude17 (add)
    with BuildSketch(Plane(origin=(11.90625, 0, 0), x_dir=(0, 0, -1), z_dir=(1, 0, 0))):
        with BuildLine():
            Line((-249.957697324, 357.526428359), (-243.541665847, 346.566294232))
            ThreePointArc((-243.541665847, 346.566294232), (-252.229748649, 348.838345557), (-249.957697324, 357.526428359))
        make_face()
    extrude(amount=-BOSS_EXTRUDE17_DEPTH)


with BuildPart() as cut_extrude22_tool:
    # Sketch47 → Cut-Extrude22 (new, through all)
    with BuildSketch(Plane(origin=(11.90625, 0, 0), x_dir=(0, 0, -1), z_dir=(1, 0, 0))):
        with Locations((-246.749681585, 352.046361295)):
            Circle(SKETCH47_R)
    extrude(amount=-CUT_EXTRUDE22_DEPTH)


with BuildPart() as body_4_2:
    add(body_4_1.part)

    # Cut-Extrude22: cut by cut_extrude22_tool
    add(cut_extrude22_tool.part, mode=Mode.SUBTRACT)

    # Fillet10
    fillet10_edges = [body_4_2.edges().sort_by_distance(p)[0] for p in [
        (10.31875, 346.566294232, 243.541665847),
        (10.31875, 357.526428359, 249.957697324),
    ]]
    fillet(fillet10_edges, radius=FILLET10_R)

    # Fillet11
    fillet11_edges = [body_4_2.edges().sort_by_distance(p)[0] for p in [
        (10.31875, 374.513409299, 259.901827857),
    ]]
    fillet(fillet11_edges, radius=FILLET11_R)

    # Sketch66 → Boss-Extrude15 (add)
    with BuildSketch(Plane.ZY.offset(-8.73125)):
        Polygon((219.676143821, 352.088594489), (232.292980439, 343.540317836), (226.260033989, 334.635985094), (213.643197371, 343.184261748), align=None)
        Polygon((241.890035296, 383.134444861), (253.315956343, 378.866411532), (257.295076427, 389.518885027), (245.86915538, 393.786918357), align=None)
    extrude(amount=-BOSS_EXTRUDE15_DEPTH)


with BuildPart() as body_5_2:
    add(body_5_1.part)

    # Cut-Extrude22: cut by cut_extrude22_tool
    add(cut_extrude22_tool.part, mode=Mode.SUBTRACT)


with BuildPart() as f_10_0_1935_diameter_hole1_tool:
    # Sketch63 → #10 (0.1935) Diameter Hole1 (revolve)
    with BuildSketch(Plane(origin=(-2.38125, 447.807292483, 200.24390249), x_dir=(0, 0, 1), z_dir=(0, 1, 0))):
        with Locations((1.228725, 10.715625)):
            Rectangle(SKETCH63_W, SKETCH63_H)
    revolve(axis=Axis((-8.73125, 447.807292483, 200.24390249), (1, 0, 0)))


with BuildPart() as cut_extrude23_piece_2_1:
    add(cut_extrude23_piece_2.part)

    # #10 (0.1935) Diameter Hole1: cut by f_10_0_1935_diameter_hole1_tool
    add(f_10_0_1935_diameter_hole1_tool.part, mode=Mode.SUBTRACT)


with BuildPart() as body_3_1:
    add(body_3.part)

    # #10 (0.1935) Diameter Hole1: cut by f_10_0_1935_diameter_hole1_tool
    add(f_10_0_1935_diameter_hole1_tool.part, mode=Mode.SUBTRACT)

    # Fillet6
    fillet6_edges = [body_3_1.edges().sort_by_distance(p)[0] for p in [
        (0, 408.881093338, 157.330045228),
    ]]
    fillet(fillet6_edges, radius=FILLET6_R)

    # Fillet7
    fillet7_edges = [body_3_1.edges().sort_by_distance(p)[0] for p in [
        (0, 406.912111857, 159.820775427),
        (0, 398.004955291, 152.779456246),
    ]]
    fillet(fillet7_edges, radius=FILLET7_R)

    # Fillet9
    fillet9_edges = [body_3_1.edges().sort_by_distance(p)[0] for p in [
        (0, 457.499743714, 195.764245071),
    ]]
    fillet(fillet9_edges, radius=FILLET9_R)

    # Fillet8
    fillet8_edges = [body_3_1.edges().sort_by_distance(p)[0] for p in [
        (0, 383.973791344, 137.640230415),
        (0, 374.128883937, 150.093881412),
    ]]
    fillet(fillet8_edges, radius=FILLET8_R)


with BuildPart() as body_2:
    # Sketch67 → Boss-Extrude16 (new body)
    with BuildSketch(Plane.ZY.offset(-8.73125)):
        with Locations((273.586337896, 406.00175714)):
            Rectangle(SKETCH67_W, SKETCH67_H)
    extrude(amount=-BOSS_EXTRUDE16_DEPTH)


solid = Compound([body_4_2.part, body_2.part])
